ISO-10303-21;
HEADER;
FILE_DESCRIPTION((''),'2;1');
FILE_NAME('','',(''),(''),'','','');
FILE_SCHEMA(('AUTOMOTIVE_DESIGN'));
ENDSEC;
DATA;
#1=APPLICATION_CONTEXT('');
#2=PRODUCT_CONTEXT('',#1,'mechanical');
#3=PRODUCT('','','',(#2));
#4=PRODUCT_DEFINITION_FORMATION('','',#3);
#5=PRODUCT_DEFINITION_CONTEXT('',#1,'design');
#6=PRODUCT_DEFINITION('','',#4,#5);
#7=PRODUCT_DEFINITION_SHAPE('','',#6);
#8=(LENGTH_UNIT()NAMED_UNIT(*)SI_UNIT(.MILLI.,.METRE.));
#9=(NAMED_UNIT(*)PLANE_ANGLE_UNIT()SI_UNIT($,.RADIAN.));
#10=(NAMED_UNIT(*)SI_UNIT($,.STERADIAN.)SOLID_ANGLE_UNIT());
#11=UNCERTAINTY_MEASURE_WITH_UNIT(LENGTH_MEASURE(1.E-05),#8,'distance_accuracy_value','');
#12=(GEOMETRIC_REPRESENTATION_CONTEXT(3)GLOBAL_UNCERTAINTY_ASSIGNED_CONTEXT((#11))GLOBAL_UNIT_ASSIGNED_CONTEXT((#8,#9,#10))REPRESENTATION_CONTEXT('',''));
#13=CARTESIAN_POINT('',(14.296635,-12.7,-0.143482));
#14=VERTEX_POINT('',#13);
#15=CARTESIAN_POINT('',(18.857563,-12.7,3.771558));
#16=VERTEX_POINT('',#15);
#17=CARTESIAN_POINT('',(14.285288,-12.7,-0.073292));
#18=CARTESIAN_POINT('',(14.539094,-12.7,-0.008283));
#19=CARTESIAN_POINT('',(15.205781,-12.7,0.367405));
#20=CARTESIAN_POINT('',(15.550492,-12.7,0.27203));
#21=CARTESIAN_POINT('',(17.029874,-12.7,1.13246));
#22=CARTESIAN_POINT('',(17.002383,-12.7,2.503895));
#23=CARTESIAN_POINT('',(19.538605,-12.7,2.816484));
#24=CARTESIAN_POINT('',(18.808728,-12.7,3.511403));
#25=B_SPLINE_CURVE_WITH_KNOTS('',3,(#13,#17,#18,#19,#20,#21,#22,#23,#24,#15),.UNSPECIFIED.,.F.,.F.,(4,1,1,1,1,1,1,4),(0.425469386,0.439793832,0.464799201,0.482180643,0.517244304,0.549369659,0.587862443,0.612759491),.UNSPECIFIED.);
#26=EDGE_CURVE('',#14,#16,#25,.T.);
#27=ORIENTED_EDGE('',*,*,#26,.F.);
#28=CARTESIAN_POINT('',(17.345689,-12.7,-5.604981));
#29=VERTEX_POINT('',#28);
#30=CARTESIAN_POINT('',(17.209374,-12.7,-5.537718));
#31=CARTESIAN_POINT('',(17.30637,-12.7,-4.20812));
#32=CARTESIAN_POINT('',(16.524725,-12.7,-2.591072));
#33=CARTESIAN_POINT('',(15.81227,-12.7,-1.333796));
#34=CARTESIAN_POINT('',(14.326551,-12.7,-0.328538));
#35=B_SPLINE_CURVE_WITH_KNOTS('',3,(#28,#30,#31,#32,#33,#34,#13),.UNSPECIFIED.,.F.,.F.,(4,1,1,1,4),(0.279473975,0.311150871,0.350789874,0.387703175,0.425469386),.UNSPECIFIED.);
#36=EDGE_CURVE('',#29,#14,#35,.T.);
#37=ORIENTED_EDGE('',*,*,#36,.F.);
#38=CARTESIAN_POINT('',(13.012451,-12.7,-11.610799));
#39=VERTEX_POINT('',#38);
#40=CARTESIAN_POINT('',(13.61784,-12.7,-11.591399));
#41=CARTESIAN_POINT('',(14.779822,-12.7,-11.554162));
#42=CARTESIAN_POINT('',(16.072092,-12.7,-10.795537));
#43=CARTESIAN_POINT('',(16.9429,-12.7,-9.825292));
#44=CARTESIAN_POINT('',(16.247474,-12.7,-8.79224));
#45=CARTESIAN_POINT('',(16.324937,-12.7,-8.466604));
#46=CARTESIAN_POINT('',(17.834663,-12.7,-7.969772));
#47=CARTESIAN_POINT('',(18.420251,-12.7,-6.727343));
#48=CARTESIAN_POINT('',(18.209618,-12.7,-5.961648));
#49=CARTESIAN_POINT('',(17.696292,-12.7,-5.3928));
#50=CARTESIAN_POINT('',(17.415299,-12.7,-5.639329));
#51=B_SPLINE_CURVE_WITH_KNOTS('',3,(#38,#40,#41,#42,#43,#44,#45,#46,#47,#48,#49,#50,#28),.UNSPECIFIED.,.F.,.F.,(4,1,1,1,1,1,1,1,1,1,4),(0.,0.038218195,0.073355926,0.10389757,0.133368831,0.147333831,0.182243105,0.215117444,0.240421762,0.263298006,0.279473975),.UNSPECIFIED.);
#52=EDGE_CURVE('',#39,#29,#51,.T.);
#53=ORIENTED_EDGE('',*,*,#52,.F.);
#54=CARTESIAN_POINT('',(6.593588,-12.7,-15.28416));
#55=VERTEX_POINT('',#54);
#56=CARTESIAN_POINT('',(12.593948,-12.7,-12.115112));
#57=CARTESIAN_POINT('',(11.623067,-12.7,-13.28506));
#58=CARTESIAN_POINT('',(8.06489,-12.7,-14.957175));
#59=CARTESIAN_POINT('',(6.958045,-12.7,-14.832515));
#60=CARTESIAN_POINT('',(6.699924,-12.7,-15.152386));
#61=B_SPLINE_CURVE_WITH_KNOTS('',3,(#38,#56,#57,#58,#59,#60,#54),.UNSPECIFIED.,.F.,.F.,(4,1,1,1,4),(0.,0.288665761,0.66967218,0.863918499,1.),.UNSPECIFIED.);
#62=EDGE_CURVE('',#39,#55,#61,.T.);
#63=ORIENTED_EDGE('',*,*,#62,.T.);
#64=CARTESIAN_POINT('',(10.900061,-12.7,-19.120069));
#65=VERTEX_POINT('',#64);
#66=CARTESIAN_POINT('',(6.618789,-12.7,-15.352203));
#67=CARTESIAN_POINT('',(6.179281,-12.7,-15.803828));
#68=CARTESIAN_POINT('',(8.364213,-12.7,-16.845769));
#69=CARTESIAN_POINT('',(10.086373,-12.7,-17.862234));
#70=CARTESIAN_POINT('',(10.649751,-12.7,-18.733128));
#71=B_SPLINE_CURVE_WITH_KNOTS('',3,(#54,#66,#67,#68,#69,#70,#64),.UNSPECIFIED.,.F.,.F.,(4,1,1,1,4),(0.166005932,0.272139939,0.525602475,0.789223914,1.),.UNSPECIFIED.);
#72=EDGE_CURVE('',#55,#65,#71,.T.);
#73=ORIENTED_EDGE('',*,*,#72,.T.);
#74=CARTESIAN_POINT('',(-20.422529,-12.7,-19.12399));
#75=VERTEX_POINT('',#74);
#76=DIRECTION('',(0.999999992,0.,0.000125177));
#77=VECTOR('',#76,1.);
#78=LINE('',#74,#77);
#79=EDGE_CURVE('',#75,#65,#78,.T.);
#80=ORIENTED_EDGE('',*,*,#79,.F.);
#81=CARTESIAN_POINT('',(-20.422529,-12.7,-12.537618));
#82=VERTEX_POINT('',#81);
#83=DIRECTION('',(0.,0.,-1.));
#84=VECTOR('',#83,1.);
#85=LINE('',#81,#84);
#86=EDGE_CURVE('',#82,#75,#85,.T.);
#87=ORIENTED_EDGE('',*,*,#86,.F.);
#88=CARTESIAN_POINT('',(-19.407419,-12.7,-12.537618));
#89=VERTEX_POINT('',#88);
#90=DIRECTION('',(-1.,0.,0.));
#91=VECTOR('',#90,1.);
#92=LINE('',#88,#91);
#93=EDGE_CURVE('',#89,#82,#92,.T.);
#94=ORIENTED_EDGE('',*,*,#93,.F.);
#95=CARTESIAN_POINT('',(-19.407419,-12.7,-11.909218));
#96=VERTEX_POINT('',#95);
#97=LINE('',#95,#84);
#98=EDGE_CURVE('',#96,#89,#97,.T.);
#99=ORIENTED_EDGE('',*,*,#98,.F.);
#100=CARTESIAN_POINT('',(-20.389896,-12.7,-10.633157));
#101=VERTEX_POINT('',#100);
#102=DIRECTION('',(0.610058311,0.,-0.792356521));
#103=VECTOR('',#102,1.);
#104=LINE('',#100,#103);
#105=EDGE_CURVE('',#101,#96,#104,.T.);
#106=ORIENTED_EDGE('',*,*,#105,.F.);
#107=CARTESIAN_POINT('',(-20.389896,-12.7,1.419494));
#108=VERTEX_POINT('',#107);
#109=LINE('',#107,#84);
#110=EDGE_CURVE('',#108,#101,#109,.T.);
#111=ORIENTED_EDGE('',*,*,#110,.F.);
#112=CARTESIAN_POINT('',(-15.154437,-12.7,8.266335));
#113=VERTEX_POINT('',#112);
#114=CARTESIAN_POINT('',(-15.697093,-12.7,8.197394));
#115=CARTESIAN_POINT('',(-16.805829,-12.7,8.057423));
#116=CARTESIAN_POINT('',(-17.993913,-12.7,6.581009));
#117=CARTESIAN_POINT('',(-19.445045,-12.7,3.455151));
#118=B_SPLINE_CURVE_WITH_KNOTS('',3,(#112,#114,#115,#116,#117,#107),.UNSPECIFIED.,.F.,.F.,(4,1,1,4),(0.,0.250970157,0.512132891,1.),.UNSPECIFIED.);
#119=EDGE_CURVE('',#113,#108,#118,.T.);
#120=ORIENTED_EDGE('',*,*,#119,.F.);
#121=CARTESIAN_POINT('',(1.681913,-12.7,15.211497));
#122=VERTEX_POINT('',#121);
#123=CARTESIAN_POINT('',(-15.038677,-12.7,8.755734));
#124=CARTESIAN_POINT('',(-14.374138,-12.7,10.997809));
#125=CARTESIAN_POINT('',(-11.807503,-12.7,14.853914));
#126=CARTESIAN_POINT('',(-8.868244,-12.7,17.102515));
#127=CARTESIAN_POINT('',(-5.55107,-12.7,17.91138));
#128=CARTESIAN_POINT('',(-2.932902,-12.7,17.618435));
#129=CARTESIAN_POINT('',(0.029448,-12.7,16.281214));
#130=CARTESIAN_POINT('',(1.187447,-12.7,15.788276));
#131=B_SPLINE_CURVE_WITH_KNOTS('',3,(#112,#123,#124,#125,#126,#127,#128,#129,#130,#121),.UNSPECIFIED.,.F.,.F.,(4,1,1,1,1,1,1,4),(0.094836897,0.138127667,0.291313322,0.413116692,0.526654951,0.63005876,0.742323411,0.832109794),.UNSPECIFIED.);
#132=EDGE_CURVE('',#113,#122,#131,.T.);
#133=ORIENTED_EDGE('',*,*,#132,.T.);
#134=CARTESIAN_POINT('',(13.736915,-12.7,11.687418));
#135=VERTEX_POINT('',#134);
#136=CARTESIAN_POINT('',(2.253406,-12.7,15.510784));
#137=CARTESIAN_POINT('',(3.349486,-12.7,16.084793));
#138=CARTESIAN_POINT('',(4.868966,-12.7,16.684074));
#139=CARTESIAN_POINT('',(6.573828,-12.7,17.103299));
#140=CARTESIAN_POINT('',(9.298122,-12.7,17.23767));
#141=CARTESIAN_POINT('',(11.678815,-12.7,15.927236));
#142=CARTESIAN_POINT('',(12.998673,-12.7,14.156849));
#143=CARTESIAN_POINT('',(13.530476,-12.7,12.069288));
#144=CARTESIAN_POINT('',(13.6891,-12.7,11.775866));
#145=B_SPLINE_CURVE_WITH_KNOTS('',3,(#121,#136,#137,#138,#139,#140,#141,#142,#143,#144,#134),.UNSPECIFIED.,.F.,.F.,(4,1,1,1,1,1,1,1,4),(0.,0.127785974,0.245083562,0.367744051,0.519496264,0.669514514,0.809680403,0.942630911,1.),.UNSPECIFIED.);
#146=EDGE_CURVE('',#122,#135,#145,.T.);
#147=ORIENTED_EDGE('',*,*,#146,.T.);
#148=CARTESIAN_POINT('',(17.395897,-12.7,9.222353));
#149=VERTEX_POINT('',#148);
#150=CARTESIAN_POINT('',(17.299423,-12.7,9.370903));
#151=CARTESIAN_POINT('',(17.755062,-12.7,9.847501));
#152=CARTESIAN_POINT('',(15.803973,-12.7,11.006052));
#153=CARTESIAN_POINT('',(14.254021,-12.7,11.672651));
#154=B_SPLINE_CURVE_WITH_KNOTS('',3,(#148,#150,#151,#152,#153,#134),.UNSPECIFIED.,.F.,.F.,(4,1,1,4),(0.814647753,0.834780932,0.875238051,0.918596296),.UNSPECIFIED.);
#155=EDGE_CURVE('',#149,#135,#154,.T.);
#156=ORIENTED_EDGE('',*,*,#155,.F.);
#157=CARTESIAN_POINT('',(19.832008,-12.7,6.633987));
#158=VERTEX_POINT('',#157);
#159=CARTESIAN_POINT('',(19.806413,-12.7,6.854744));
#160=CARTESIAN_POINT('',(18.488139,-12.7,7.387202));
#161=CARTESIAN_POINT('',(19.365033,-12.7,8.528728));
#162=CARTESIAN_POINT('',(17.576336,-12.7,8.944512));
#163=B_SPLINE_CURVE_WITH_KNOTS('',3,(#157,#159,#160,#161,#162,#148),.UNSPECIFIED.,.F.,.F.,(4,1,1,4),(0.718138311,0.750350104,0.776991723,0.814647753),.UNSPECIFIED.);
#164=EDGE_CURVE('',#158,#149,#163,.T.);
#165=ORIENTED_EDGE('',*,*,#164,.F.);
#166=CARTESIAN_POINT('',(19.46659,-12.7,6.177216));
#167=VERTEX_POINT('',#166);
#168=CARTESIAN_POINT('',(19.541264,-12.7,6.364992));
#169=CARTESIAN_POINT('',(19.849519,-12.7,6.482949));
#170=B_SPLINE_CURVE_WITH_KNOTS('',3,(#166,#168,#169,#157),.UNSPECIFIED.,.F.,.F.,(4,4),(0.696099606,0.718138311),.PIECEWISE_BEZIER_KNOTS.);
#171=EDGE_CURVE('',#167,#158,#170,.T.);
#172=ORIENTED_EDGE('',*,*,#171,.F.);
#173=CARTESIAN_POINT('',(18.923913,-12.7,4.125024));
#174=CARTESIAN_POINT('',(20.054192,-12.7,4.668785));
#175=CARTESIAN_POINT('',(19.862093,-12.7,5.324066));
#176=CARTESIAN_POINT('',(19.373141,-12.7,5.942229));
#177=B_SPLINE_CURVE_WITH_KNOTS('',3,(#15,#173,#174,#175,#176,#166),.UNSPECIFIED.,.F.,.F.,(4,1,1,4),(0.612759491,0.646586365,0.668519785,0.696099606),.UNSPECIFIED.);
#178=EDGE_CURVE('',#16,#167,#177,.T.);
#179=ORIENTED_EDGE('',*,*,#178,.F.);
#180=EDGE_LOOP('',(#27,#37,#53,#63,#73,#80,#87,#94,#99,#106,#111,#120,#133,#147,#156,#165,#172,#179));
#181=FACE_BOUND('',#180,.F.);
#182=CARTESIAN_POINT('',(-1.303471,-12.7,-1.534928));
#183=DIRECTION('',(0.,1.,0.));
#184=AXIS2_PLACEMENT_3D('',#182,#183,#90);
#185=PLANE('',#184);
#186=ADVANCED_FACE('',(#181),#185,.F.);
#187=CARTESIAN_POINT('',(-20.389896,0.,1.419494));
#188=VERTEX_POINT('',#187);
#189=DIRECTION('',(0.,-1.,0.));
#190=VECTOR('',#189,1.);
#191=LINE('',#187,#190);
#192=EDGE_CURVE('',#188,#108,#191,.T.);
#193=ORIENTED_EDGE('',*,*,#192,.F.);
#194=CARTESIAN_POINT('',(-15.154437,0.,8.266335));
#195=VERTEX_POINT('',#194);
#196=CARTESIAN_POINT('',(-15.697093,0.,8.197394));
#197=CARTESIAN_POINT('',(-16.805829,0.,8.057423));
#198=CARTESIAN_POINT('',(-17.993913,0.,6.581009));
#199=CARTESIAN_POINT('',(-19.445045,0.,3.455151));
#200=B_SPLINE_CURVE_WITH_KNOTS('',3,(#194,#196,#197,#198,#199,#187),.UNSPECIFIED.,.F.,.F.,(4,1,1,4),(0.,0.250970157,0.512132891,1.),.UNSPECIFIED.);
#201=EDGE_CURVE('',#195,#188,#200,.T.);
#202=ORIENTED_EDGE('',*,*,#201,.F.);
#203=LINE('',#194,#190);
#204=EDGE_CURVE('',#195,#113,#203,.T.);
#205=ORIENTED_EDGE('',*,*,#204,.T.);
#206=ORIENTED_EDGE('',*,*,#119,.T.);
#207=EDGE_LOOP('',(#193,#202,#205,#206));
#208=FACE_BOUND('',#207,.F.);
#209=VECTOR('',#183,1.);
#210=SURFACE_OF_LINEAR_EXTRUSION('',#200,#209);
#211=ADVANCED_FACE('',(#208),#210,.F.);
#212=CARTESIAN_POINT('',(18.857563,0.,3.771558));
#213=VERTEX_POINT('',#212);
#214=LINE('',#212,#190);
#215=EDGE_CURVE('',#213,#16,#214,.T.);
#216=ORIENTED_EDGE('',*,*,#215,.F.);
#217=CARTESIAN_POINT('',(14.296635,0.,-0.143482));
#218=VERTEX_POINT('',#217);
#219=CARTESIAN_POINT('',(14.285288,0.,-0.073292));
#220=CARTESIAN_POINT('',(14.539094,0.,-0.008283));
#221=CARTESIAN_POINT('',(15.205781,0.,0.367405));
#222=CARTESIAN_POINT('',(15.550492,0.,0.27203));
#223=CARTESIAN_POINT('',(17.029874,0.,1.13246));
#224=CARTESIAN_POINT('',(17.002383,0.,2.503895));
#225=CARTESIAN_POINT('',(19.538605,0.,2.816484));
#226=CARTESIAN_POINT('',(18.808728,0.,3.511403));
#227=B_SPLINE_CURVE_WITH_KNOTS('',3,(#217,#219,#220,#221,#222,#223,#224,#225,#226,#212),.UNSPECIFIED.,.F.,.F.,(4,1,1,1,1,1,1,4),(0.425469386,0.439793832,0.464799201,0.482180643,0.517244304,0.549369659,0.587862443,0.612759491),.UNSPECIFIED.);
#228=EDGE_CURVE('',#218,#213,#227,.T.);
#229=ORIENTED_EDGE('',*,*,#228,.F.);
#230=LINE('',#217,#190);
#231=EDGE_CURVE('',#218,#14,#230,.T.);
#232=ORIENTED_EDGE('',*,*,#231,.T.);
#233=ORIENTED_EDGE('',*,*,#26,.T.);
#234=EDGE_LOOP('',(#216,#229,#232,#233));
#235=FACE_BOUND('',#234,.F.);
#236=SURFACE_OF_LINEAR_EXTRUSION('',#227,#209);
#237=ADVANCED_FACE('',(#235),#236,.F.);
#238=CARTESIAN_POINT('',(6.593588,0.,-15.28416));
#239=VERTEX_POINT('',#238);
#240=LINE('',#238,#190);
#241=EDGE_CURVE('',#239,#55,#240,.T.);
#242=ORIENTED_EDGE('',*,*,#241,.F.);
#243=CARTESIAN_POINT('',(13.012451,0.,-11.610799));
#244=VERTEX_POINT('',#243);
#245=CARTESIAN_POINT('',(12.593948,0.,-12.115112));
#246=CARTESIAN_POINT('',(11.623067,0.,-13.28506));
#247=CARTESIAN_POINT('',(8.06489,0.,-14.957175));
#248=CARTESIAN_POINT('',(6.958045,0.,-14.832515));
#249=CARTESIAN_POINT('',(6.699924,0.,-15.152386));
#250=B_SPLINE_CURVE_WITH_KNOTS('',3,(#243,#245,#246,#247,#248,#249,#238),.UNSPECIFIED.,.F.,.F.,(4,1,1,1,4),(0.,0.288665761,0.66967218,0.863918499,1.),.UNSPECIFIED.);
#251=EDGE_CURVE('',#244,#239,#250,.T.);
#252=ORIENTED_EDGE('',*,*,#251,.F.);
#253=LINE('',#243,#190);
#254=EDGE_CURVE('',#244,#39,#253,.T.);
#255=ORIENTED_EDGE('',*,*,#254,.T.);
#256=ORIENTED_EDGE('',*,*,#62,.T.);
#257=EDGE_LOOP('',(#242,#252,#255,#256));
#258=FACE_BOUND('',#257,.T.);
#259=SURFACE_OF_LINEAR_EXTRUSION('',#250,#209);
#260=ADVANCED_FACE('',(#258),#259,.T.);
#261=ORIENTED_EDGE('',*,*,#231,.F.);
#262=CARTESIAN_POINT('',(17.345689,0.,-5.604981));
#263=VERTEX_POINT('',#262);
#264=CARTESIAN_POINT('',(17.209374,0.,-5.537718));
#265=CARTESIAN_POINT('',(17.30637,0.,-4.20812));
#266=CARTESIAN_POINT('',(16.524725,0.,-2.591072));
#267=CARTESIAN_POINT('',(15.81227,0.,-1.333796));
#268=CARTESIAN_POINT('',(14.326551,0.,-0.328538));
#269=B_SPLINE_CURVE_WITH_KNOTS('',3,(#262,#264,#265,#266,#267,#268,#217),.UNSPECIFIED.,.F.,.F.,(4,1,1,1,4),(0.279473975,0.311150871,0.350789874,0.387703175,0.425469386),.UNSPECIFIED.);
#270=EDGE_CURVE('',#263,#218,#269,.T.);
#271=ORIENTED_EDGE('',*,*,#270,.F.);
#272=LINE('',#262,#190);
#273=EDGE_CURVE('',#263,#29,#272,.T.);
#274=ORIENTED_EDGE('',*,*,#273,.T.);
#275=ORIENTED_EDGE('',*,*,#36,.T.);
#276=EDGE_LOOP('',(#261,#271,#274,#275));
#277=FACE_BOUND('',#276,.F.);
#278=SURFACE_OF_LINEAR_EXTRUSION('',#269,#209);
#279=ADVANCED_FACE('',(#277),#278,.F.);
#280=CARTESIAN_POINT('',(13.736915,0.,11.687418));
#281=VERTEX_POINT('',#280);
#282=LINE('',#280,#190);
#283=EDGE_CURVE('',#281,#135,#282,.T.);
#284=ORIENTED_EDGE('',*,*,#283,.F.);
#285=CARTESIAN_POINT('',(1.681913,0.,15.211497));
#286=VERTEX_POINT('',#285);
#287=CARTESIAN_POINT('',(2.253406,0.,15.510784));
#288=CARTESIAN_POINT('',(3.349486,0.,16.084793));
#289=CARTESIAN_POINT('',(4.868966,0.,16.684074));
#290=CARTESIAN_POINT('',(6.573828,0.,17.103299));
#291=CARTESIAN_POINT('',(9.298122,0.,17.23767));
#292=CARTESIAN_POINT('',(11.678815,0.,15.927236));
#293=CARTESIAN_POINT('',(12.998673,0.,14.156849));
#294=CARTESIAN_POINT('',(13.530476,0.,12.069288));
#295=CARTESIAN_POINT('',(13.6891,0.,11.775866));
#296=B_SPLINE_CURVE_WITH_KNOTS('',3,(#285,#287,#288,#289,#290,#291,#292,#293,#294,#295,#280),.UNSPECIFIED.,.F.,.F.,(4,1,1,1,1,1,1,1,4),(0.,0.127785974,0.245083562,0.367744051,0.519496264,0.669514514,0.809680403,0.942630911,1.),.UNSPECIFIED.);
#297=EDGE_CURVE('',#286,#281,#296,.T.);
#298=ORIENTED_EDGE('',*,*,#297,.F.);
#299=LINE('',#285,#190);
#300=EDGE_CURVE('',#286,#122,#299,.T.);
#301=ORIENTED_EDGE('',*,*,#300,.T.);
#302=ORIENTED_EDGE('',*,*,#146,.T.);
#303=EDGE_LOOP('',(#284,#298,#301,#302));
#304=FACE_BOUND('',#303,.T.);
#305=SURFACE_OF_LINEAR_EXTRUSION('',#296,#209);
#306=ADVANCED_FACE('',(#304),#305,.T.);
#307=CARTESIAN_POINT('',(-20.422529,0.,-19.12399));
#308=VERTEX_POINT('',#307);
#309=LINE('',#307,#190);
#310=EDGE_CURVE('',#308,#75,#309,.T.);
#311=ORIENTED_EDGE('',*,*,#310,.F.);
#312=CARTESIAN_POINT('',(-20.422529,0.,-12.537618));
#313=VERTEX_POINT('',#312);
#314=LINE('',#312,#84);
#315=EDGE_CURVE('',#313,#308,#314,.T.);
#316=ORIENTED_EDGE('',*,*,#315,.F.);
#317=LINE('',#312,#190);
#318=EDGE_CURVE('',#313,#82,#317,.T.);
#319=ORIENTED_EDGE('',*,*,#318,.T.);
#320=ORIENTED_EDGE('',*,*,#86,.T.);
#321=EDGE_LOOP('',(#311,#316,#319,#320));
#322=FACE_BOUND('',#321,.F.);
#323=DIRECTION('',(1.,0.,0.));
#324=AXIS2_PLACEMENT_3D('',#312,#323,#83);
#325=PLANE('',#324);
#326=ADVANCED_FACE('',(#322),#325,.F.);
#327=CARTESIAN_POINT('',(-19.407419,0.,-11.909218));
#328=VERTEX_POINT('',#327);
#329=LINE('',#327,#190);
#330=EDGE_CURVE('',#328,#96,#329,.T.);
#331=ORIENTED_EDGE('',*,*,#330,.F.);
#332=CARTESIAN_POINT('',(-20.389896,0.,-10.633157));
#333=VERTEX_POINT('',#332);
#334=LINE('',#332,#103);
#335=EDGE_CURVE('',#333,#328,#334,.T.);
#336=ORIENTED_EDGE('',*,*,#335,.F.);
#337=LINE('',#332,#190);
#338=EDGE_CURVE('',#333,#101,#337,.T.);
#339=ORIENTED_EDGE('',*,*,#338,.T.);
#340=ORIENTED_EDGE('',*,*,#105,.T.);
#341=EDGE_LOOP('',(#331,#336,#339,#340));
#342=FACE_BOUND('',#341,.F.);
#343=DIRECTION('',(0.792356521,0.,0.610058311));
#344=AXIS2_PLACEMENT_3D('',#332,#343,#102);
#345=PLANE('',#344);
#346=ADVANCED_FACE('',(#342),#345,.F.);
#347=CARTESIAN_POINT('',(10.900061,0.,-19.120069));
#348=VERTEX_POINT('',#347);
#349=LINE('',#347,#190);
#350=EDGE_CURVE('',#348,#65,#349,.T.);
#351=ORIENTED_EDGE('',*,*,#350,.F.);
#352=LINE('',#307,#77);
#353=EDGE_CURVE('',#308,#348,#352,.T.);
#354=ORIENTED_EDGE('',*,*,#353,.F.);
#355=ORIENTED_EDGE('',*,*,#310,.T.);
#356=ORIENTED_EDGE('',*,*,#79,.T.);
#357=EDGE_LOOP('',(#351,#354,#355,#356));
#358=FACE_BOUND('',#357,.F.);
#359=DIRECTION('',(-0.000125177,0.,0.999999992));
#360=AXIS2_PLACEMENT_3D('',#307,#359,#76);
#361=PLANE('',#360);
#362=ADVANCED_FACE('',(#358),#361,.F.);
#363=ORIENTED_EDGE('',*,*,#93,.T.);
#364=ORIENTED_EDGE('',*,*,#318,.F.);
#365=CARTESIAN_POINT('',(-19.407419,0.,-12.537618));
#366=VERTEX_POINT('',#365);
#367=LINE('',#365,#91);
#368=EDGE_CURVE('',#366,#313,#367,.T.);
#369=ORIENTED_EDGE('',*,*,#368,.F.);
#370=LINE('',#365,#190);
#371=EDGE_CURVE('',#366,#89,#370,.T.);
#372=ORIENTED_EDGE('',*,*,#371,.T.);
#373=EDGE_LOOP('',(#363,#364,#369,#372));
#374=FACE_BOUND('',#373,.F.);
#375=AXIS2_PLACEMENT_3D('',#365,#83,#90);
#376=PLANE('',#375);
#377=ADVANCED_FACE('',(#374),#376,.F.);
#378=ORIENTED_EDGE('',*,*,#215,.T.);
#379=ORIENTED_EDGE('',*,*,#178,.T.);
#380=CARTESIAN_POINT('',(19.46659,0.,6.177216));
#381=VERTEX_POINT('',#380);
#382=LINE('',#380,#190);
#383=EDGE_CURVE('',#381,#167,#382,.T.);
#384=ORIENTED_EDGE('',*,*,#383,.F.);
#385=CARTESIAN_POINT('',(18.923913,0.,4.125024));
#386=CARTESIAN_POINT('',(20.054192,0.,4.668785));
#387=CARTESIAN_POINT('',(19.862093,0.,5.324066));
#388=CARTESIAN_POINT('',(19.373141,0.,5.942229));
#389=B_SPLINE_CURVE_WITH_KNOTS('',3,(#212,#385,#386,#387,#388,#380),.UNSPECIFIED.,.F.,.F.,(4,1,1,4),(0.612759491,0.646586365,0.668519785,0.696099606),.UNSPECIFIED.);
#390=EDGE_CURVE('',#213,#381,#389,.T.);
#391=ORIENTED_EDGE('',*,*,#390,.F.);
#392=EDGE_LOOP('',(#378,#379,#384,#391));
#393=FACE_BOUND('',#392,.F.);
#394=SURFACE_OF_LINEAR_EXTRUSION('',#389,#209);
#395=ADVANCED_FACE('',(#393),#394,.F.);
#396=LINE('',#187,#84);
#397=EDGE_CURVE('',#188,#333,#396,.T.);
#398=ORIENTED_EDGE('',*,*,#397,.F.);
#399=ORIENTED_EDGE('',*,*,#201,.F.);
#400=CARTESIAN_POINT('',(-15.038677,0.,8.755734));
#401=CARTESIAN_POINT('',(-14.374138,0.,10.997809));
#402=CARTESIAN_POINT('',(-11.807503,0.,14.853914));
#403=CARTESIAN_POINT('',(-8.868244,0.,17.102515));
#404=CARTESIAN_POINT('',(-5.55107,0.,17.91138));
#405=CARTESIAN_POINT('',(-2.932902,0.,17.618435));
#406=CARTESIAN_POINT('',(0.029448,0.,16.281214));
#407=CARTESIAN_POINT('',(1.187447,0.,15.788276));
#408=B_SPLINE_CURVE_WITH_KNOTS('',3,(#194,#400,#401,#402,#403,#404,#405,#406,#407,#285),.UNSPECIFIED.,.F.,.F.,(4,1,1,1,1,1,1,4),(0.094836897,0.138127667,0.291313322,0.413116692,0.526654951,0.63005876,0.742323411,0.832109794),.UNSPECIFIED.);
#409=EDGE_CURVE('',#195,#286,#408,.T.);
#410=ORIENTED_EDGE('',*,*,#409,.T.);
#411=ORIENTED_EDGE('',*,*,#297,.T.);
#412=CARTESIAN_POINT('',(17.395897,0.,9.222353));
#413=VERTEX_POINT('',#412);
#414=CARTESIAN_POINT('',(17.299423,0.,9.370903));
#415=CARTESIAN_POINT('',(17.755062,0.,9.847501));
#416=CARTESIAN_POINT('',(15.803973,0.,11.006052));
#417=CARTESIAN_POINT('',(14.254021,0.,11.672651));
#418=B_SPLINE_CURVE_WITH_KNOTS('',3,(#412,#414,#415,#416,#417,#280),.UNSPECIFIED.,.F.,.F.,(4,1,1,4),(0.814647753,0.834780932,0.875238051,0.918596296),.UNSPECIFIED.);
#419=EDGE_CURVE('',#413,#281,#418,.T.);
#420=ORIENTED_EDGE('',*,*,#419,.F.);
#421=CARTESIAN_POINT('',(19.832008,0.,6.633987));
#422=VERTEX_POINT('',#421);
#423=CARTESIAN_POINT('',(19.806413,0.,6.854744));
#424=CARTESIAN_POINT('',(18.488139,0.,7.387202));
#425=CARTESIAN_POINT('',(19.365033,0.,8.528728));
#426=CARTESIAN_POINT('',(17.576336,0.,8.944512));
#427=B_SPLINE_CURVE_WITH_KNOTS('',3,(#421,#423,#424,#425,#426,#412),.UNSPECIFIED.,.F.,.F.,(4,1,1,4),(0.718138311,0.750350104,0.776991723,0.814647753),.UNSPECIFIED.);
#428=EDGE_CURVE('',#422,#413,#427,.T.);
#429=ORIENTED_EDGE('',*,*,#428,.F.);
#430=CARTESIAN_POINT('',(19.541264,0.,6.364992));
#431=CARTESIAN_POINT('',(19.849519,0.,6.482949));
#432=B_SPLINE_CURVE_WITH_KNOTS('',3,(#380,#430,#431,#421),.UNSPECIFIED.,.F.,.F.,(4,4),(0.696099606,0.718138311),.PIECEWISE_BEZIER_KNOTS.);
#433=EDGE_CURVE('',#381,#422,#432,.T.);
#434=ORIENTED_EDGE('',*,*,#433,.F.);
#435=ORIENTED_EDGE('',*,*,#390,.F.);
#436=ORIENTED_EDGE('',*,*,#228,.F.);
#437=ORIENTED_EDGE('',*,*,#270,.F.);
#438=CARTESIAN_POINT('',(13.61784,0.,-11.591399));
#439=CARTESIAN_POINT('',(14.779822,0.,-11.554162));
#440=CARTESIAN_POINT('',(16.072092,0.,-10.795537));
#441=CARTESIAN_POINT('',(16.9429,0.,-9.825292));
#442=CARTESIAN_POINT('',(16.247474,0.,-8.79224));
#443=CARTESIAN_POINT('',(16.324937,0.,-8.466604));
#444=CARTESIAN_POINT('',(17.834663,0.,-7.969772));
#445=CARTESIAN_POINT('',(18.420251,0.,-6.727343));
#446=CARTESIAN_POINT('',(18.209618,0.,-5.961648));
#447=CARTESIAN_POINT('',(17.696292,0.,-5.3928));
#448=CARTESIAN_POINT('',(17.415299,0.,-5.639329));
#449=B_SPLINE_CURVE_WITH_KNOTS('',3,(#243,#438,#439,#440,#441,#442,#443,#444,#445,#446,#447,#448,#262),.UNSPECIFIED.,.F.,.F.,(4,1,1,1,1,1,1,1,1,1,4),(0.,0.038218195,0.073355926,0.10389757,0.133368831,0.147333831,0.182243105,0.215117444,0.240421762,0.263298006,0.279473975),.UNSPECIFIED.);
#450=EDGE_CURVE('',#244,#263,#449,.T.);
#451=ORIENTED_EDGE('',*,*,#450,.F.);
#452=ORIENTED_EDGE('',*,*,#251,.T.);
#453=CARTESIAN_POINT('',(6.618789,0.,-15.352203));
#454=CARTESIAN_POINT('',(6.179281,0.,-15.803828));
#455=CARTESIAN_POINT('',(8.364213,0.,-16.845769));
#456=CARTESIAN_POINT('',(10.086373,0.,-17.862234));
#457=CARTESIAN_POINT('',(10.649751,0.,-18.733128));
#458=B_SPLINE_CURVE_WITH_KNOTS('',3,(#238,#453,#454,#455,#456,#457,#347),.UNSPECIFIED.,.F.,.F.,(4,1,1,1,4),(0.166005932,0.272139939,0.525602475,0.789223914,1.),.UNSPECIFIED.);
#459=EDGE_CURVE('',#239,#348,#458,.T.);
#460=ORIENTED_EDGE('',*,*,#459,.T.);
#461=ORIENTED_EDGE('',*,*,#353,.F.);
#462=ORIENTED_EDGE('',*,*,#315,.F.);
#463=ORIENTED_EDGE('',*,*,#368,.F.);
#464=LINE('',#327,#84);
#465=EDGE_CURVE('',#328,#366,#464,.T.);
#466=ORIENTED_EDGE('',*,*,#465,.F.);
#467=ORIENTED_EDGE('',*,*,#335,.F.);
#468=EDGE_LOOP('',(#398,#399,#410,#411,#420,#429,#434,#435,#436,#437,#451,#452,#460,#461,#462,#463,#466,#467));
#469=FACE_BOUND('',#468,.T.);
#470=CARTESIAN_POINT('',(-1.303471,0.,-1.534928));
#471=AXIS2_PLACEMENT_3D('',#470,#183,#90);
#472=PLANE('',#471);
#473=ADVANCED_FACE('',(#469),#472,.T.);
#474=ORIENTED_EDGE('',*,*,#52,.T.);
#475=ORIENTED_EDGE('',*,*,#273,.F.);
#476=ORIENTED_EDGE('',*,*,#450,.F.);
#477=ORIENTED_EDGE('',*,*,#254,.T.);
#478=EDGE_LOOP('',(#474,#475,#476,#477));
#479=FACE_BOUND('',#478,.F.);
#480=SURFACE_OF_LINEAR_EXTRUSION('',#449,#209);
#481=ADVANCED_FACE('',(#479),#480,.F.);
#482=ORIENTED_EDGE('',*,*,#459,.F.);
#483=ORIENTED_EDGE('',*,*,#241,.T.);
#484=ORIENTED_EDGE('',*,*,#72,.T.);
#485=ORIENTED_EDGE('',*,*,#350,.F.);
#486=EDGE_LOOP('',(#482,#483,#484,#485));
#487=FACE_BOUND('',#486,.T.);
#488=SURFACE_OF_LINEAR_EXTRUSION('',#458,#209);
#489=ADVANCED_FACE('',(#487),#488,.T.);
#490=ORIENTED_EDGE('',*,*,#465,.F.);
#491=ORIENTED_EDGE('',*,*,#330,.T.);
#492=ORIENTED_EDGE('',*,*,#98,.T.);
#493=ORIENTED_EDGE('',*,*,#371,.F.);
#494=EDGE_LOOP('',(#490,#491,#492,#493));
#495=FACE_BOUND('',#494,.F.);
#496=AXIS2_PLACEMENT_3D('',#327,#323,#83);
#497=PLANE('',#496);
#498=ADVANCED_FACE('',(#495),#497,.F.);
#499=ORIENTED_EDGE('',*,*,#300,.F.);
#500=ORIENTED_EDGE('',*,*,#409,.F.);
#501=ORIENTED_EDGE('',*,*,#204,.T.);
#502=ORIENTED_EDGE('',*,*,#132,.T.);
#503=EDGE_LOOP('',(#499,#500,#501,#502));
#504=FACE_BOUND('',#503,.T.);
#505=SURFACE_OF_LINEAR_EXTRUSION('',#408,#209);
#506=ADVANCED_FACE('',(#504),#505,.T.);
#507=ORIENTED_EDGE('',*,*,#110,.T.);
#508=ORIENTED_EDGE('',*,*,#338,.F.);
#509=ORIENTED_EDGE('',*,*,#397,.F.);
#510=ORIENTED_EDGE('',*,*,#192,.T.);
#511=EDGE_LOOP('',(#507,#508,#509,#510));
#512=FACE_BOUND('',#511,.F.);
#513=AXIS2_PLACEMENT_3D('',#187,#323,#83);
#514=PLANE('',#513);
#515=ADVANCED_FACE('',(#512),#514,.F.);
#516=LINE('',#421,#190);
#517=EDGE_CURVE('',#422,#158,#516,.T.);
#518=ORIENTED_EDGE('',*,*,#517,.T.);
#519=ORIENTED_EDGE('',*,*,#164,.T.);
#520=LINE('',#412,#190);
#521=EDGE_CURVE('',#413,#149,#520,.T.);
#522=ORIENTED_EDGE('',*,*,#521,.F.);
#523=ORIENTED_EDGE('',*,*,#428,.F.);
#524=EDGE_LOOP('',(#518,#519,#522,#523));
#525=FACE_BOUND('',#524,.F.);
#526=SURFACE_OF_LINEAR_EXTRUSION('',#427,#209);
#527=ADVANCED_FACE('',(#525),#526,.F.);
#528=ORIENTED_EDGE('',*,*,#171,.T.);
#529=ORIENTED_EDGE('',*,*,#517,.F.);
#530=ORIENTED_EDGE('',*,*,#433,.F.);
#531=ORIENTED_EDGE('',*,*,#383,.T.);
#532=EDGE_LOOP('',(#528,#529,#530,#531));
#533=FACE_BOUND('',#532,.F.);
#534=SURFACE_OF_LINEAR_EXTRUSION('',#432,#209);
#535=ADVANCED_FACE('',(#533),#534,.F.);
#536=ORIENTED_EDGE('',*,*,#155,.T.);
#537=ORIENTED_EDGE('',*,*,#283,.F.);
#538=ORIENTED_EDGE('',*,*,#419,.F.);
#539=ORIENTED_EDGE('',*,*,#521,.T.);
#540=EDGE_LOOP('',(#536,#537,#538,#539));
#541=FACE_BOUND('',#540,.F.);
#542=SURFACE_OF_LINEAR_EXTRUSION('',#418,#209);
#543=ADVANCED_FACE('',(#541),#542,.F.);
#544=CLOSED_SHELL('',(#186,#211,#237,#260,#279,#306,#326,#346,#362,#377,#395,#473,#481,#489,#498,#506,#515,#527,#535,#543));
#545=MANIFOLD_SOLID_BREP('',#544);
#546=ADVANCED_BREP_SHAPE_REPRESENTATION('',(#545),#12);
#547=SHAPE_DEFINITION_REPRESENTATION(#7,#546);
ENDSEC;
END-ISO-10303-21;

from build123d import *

# Parameters (mm, degrees)
F1_DEPTH = 12.7


with BuildPart() as f1:
    # F0 (on Front) → F1 (new body)
    with BuildSketch(Plane.XZ):
        with BuildLine():
            add(Edge.make_bspline(
                [(-15.154437306, 8.266335297), (-15.0386769934, 8.7557337939), (-14.3741383819, 10.9978091678), (-11.8075027584, 14.8539144241), (-8.8682439542, 17.1025149238), (-5.5510699204, 17.9113797341), (-2.9329017816, 17.6184345826), (0.029448146, 16.2812136827), (1.1874474387, 15.7882755265), (1.681912574, 15.2114974335)],
                knots=[0.0948368965, 0.0948368965, 0.0948368965, 0.0948368965, 0.1381276669, 0.2913133216, 0.4131166921, 0.5266549515, 0.6300587596, 0.7423234113, 0.8321097944, 0.8321097944, 0.8321097944, 0.8321097944], degree=3))
            add(Edge.make_bspline(
                [(-15.154437306, 8.266335297), (-15.6970933244, 8.1973941045), (-16.8058294964, 8.0574230249), (-17.9939130366, 6.5810091616), (-19.4450451522, 3.4551507862), (-20.3898958862, 1.4194942778)],
                knots=[0, 0, 0, 0, 0.250970157, 0.5121328909, 1, 1, 1, 1], degree=3))
            Line((-20.3898958862, 1.4194942778), (-20.3898958862, -10.6331566349))
            Line((-20.3898958862, -10.6331566349), (-19.4074194878, -11.9092175737))
            add(Edge.make_bspline(
                [(-19.4074194878, -11.9092175737), (-18.5180737994, -12.4183908814), (-16.581459682, -13.5271523324), (-12.3451670543, -14.8422736814), (-5.009688178, -15.6796818442), (1.7860413854, -15.8777963562), (4.5406408215, -15.4618435648), (5.7173287496, -15.2841601521)],
                knots=[0, 0, 0, 0, 0.1583864727, 0.3448979212, 0.590608127, 0.8251192284, 1, 1, 1, 1], degree=3))
            add(Edge.make_bspline(
                [(5.7173287496, -15.2841601521), (5.8609689506, -15.2658925201), (6.0046091517, -15.2476248882), (6.1329162172, -15.2358156923)],
                knots=[0, 0, 0, 0, 0.0569882776, 0.0569882776, 0.0569882776, 0.0569882776], degree=3))
            add(Edge.make_bspline(
                [(6.1329162172, -15.2358156923), (6.3783655594, -15.2132248913), (6.5677031823, -15.2142687829), (6.593588274, -15.2841601521)],
                knots=[0.0569882776, 0.0569882776, 0.0569882776, 0.0569882776, 0.1660059315, 0.1660059315, 0.1660059315, 0.1660059315], degree=3))
            add(Edge.make_bspline(
                [(13.0124511197, -11.6107994691), (12.5939476472, -12.1151119974), (11.6230665427, -13.2850604846), (8.0648895517, -14.9571747505), (6.9580454759, -14.8325148516), (6.6999238056, -15.1523862623), (6.593588274, -15.2841601521)],
                knots=[0, 0, 0, 0, 0.288665761, 0.6696721803, 0.863918499, 1, 1, 1, 1], degree=3))
            add(Edge.make_bspline(
                [(17.3456892371, -5.6049809791), (16.7894235563, -5.8159730563), (15.5297664705, -6.2937621314), (12.6939593803, -7.3387226453), (9.5153698979, -7.5177566902), (6.8313239775, -7.3878665753), (-0.0764413013, -6.4191861087), (-4.2569807618, -5.4711619397), (-7.1031631337, -5.5883503751), (-8.6113560055, -5.7114062767), (-9.6992037188, -7.0974632625), (-10.1008982052, -8.2753221902), (-9.7951087777, -9.1999689012), (-8.8178808563, -10.0607275543), (-5.1552975142, -9.5027954786), (0.0958312582, -10.9234706923), (4.9916901863, -11.4326531973), (10.1309060151, -11.5467984944), (13.0124511197, -11.6107994691)],
                knots=[0, 0, 0, 0, 0.049671967, 0.1124815846, 0.1755999807, 0.2355156609, 0.3303542289, 0.407198297, 0.4661951976, 0.5089927858, 0.5551744044, 0.5948848593, 0.6285124105, 0.6657059392, 0.7329100796, 0.8172164163, 0.8975137145, 1, 1, 1, 1], degree=3))
            add(Edge.make_bspline(
                [(17.3456892371, -5.6049809791), (17.2093743725, -5.5377179746), (17.3063700602, -4.2081202189), (16.5247246741, -2.5910716918), (15.8122696589, -1.333796201), (14.3265511753, -0.3285375648), (14.2966350541, -0.1434823062)],
                knots=[0.2794739754, 0.2794739754, 0.2794739754, 0.2794739754, 0.3111508711, 0.3507898736, 0.3877031749, 0.4254693863, 0.4254693863, 0.4254693863, 0.4254693863], degree=3))
            add(Edge.make_bspline(
                [(14.2966350541, -0.1434823062), (14.28528809, -0.0732922116), (14.5390943831, -0.0082832717), (15.2057805922, 0.3674052609), (15.5504917984, 0.2720297382), (17.0298739485, 1.1324602338), (17.0023826914, 2.5038946686), (19.5386052141, 2.8164835894), (18.8087282257, 3.5114027514), (18.8575629145, 3.771558404)],
                knots=[0.4254693863, 0.4254693863, 0.4254693863, 0.4254693863, 0.4397938316, 0.4647992014, 0.4821806427, 0.5172443036, 0.5493696586, 0.5878624432, 0.6127594912, 0.6127594912, 0.6127594912, 0.6127594912], degree=3))
            add(Edge.make_bspline(
                [(6.526443176, 3.4349041525), (6.7192580038, 3.2869289286), (7.4139094803, 2.8639984225), (10.6532981542, 2.6478504245), (12.6043444481, 2.5154552823), (16.2310966256, 3.0020580182), (18.0173440963, 3.5253916409), (18.8575629145, 3.771558404)],
                knots=[0.0806534582, 0.0806534582, 0.0806534582, 0.0806534582, 0.196695384, 0.4063898377, 0.5802846438, 0.8025734137, 1, 1, 1, 1], degree=3))
            add(Edge.make_bspline(
                [(6.1772041954, 3.7408485077), (6.2848169441, 3.6393004747), (6.3924296928, 3.5377524418), (6.526443176, 3.4349041525)],
                knots=[0, 0, 0, 0, 0.0806534582, 0.0806534582, 0.0806534582, 0.0806534582], degree=3))
            add(Edge.make_bspline(
                [(5.7160095312, 7.9729855061), (5.0976693943, 8.2343174608), (3.7832262547, 8.7898466502), (1.1324645762, 9.0915716453), (-1.2590290764, 9.1863055842), (-3.8046943656, 8.0101043248), (-5.4662193187, 6.9958814732), (-7.3273259826, 6.1196327492), (-9.8163628138, 6.4981602022), (-10.1164278599, 5.5847431918), (-9.7430054798, 4.8978145547), (-8.7088858545, 5.1226858385), (-7.5608226582, 5.0596859794), (-6.4051488336, 3.9290459905), (-3.9867909343, 2.9861774035), (-2.2442746112, 2.135312525), (1.5307170459, 2.1064600064), (5.2711146458, 2.843862781), (6.1772041954, 3.7408485077)],
                knots=[0, 0, 0, 0, 0.0417728545, 0.0887990909, 0.133853577, 0.1816191509, 0.2221508879, 0.264090264, 0.3076439294, 0.3313226722, 0.3539557012, 0.3822014935, 0.4125147818, 0.448777936, 0.4950531519, 0.5350637901, 0.5917596244, 0.6555244473, 0.6555244473, 0.6555244473, 0.6555244473], degree=3))
            add(Edge.make_bspline(
                [(5.7160095312, 7.9729855061), (5.8226634167, 8.133455294), (5.9293173023, 8.293925082), (5.9873005375, 8.4341801703)],
                knots=[0, 0, 0, 0, 0.2132206179, 0.2132206179, 0.2132206179, 0.2132206179], degree=3))
            add(Edge.make_bspline(
                [(5.9873005375, 8.4341801703), (6.0362142973, 8.552497192), (6.0703656619, 8.8010891941), (5.5060942003, 9.3564826015), (5.0586828442, 9.7407121368)],
                knots=[0.2132206179, 0.2132206179, 0.2132206179, 0.2132206179, 0.393090231, 0.6434475586, 0.6434475586, 0.6434475586, 0.6434475586], degree=3))
            add(Edge.make_bspline(
                [(5.0586828442, 9.7407121368), (4.4214911434, 10.2879219198), (3.5428317334, 10.9589281712), (2.6641723234, 11.6299344227)],
                knots=[0.6434475586, 0.6434475586, 0.6434475586, 0.6434475586, 1, 1, 1, 1], degree=3))
            add(Edge.make_bspline(
                [(3.0040566344, 11.7049422115), (2.8865220696, 11.6584858594), (2.7689875048, 11.6120295074), (2.6641723234, 11.6299344227)],
                knots=[0, 0, 0, 0, 0.0600694759, 0.0600694759, 0.0600694759, 0.0600694759], degree=3))
            add(Edge.make_bspline(
                [(1.681912574, 15.2114974335), (2.2822756765, 14.5111926787), (3.1611878768, 12.6205136788), (3.0448523628, 11.9426505396), (3.0040566344, 11.7049422115)],
                knots=[0.8321097944, 0.8321097944, 0.8321097944, 0.8321097944, 0.9411254312, 1, 1, 1, 1], degree=3))
        make_face()
        with BuildLine():
            add(Edge.make_bspline(
                [(1.681912574, 15.2114974335), (2.2534059294, 15.5107841583), (3.3494857467, 16.0847928245), (4.8689656121, 16.6840744149), (6.5738284086, 17.1032992013), (9.2981220799, 17.2376703937), (11.6788150449, 15.9272363839), (12.9986733768, 14.15684852), (13.5304758298, 12.0692875636), (13.6890999092, 11.7758661013), (13.7369148433, 11.6874184459)],
                knots=[0, 0, 0, 0, 0.1277859741, 0.2450835618, 0.3677440513, 0.5194962645, 0.6695145135, 0.8096804032, 0.9426309106, 1, 1, 1, 1], degree=3))
            add(Edge.make_bspline(
                [(1.681912574, 15.2114974335), (2.2822756765, 14.5111926787), (3.1611878768, 12.6205136788), (3.0448523628, 11.9426505396), (3.0040566344, 11.7049422115)],
                knots=[0.8321097944, 0.8321097944, 0.8321097944, 0.8321097944, 0.9411254312, 1, 1, 1, 1], degree=3))
            add(Edge.make_bspline(
                [(3.0040566344, 11.7049422115), (3.825450629, 11.7796086695), (5.4822789239, 11.9302178792), (8.0414223037, 12.2516280122), (10.0610547761, 11.9381978313), (11.121368967, 11.7736458778)],
                knots=[0, 0, 0, 0, 0.3183430957, 0.6421277144, 1, 1, 1, 1], degree=3))
            add(Edge.make_bspline(
                [(13.7369148433, 11.6874184459), (13.4439442962, 11.6957851322), (13.0176107364, 11.48941269), (12.1511241129, 12.0723044073), (11.4728343183, 11.875580911), (11.121368967, 11.7736458778)],
                knots=[0.918596296, 0.918596296, 0.918596296, 0.918596296, 0.9431612313, 0.9705481964, 1, 1, 1, 1], degree=3))
        make_face()
        with BuildLine():
            add(Edge.make_bspline(
                [(3.0040566344, 11.7049422115), (3.825450629, 11.7796086695), (5.4822789239, 11.9302178792), (8.0414223037, 12.2516280122), (10.0610547761, 11.9381978313), (11.121368967, 11.7736458778)],
                knots=[0, 0, 0, 0, 0.3183430957, 0.6421277144, 1, 1, 1, 1], degree=3))
            add(Edge.make_bspline(
                [(3.0040566344, 11.7049422115), (2.8865220696, 11.6584858594), (2.7689875048, 11.6120295074), (2.6641723234, 11.6299344227)],
                knots=[0, 0, 0, 0, 0.0600694759, 0.0600694759, 0.0600694759, 0.0600694759], degree=3))
            add(Edge.make_bspline(
                [(5.0586828442, 9.7407121368), (4.4214911434, 10.2879219198), (3.5428317334, 10.9589281712), (2.6641723234, 11.6299344227)],
                knots=[0.6434475586, 0.6434475586, 0.6434475586, 0.6434475586, 1, 1, 1, 1], degree=3))
            add(Edge.make_bspline(
                [(5.9873005375, 8.4341801703), (6.0362142973, 8.552497192), (6.0703656619, 8.8010891941), (5.5060942003, 9.3564826015), (5.0586828442, 9.7407121368)],
                knots=[0.2132206179, 0.2132206179, 0.2132206179, 0.2132206179, 0.393090231, 0.6434475586, 0.6434475586, 0.6434475586, 0.6434475586], degree=3))
            add(Edge.make_bspline(
                [(5.9873005375, 8.4341801703), (7.2870663159, 8.8664574837), (9.8142199234, 9.7069405846), (13.4522244996, 9.9528294243), (16.0577204257, 9.4702199414), (17.3958968371, 9.2223528773)],
                knots=[0, 0, 0, 0, 0.3399710799, 0.6610107416, 1, 1, 1, 1], degree=3))
            add(Edge.make_bspline(
                [(17.3958968371, 9.2223528773), (17.2994233335, 9.3709031736), (17.755061546, 9.8475006389), (15.8039725214, 11.0060517119), (14.2540213824, 11.6726508584), (13.7369148433, 11.6874184459)],
                knots=[0.8146477527, 0.8146477527, 0.8146477527, 0.8146477527, 0.8347809324, 0.8752380512, 0.918596296, 0.918596296, 0.918596296, 0.918596296], degree=3))
            add(Edge.make_bspline(
                [(13.7369148433, 11.6874184459), (13.4439442962, 11.6957851322), (13.0176107364, 11.48941269), (12.1511241129, 12.0723044073), (11.4728343183, 11.875580911), (11.121368967, 11.7736458778)],
                knots=[0.918596296, 0.918596296, 0.918596296, 0.918596296, 0.9431612313, 0.9705481964, 1, 1, 1, 1], degree=3))
        make_face()
        with BuildLine():
            add(Edge.make_bspline(
                [(19.832007587, 6.633986719), (19.8064132047, 6.8547435664), (18.4881390523, 7.3872021621), (19.3650330523, 8.5287284815), (17.5763357516, 8.944512297), (17.3958968371, 9.2223528773)],
                knots=[0.7181383109, 0.7181383109, 0.7181383109, 0.7181383109, 0.7503501039, 0.7769917232, 0.8146477527, 0.8146477527, 0.8146477527, 0.8146477527], degree=3))
            add(Edge.make_bspline(
                [(5.9873005375, 8.4341801703), (7.2870663159, 8.8664574837), (9.8142199234, 9.7069405846), (13.4522244996, 9.9528294243), (16.0577204257, 9.4702199414), (17.3958968371, 9.2223528773)],
                knots=[0, 0, 0, 0, 0.3399710799, 0.6610107416, 1, 1, 1, 1], degree=3))
            add(Edge.make_bspline(
                [(5.7160095312, 7.9729855061), (5.8226634167, 8.133455294), (5.9293173023, 8.293925082), (5.9873005375, 8.4341801703)],
                knots=[0, 0, 0, 0, 0.2132206179, 0.2132206179, 0.2132206179, 0.2132206179], degree=3))
            add(Edge.make_bspline(
                [(5.7160095312, 7.9729855061), (5.0976693943, 8.2343174608), (3.7832262547, 8.7898466502), (1.1324645762, 9.0915716453), (-1.2590290764, 9.1863055842), (-3.8046943656, 8.0101043248), (-5.4662193187, 6.9958814732), (-7.3273259826, 6.1196327492), (-9.8163628138, 6.4981602022), (-10.1164278599, 5.5847431918), (-9.7430054798, 4.8978145547), (-8.7088858545, 5.1226858385), (-7.5608226582, 5.0596859794), (-6.4051488336, 3.9290459905), (-3.9867909343, 2.9861774035), (-2.2442746112, 2.135312525), (1.5307170459, 2.1064600064), (5.2711146458, 2.843862781), (6.1772041954, 3.7408485077)],
                knots=[0, 0, 0, 0, 0.0417728545, 0.0887990909, 0.133853577, 0.1816191509, 0.2221508879, 0.264090264, 0.3076439294, 0.3313226722, 0.3539557012, 0.3822014935, 0.4125147818, 0.448777936, 0.4950531519, 0.5350637901, 0.5917596244, 0.6555244473, 0.6555244473, 0.6555244473, 0.6555244473], degree=3))
            add(Edge.make_bspline(
                [(6.1772041954, 3.7408485077), (6.7804296893, 4.3380131679), (6.9077022432, 5.1597331413), (6.8554310128, 5.7755294256)],
                knots=[0.6555244473, 0.6555244473, 0.6555244473, 0.6555244473, 0.6979756231, 0.6979756231, 0.6979756231, 0.6979756231], degree=3))
            add(Edge.make_bspline(
                [(6.8554310128, 5.7755294256), (7.4127268279, 6.1772309108), (8.5365975009, 6.9873222596), (10.8359007914, 7.4085355769), (12.0886982355, 8.2798741832), (17.0602348476, 7.6598327031), (17.2749481279, 6.4618591472), (18.1640129309, 6.7709903663), (18.9818248171, 6.3981944314), (19.4665901363, 6.1772163026)],
                knots=[0, 0, 0, 0, 0.1554835998, 0.3135560204, 0.4527660347, 0.6833732817, 0.7808534577, 0.8700989246, 1, 1, 1, 1], degree=3))
            add(Edge.make_bspline(
                [(19.4665901363, 6.1772163026), (19.5412639356, 6.3649920847), (19.8495187837, 6.4829490199), (19.832007587, 6.633986719)],
                knots=[0.6960996056, 0.6960996056, 0.6960996056, 0.6960996056, 0.7181383109, 0.7181383109, 0.7181383109, 0.7181383109], degree=3))
        make_face()
        with BuildLine():
            add(Edge.make_bspline(
                [(-19.4074194878, -11.9092175737), (-18.5180737994, -12.4183908814), (-16.581459682, -13.5271523324), (-12.3451670543, -14.8422736814), (-5.009688178, -15.6796818442), (1.7860413854, -15.8777963562), (4.5406408215, -15.4618435648), (5.7173287496, -15.2841601521)],
                knots=[0, 0, 0, 0, 0.1583864727, 0.3448979212, 0.590608127, 0.8251192284, 1, 1, 1, 1], degree=3))
            Line((-19.4074194878, -11.9092175737), (-19.4074194878, -12.5376181677))
            add(Edge.make_bspline(
                [(-19.4074194878, -12.5376181677), (-19.0472552288, -12.845749507), (-18.2284150574, -13.5462918632), (-16.1095042703, -14.7285973698), (-13.1361108144, -15.5154421589), (-10.9251402345, -16.5738087853), (-5.9100838248, -16.7490847664), (-0.1724251453, -17.2908414684), (3.8058081405, -16.8613123017), (5.5898965016, -16.165531621), (5.97033494, -15.5151162124), (6.1329162172, -15.2358156923)],
                knots=[0, 0, 0, 0, 0.0812834053, 0.1847993406, 0.3004630597, 0.4035112423, 0.5505877757, 0.714091053, 0.8463018481, 0.9338504569, 0.9996178421, 0.9996178421, 0.9996178421, 0.9996178421], degree=3))
            add(Edge.make_bspline(
                [(5.7173287496, -15.2841601521), (5.8609689506, -15.2658925201), (6.0046091517, -15.2476248882), (6.1329162172, -15.2358156923)],
                knots=[0, 0, 0, 0, 0.0569882776, 0.0569882776, 0.0569882776, 0.0569882776], degree=3))
        make_face()
        with BuildLine():
            add(Edge.make_bspline(
                [(-19.4074194878, -12.5376181677), (-19.0472552288, -12.845749507), (-18.2284150574, -13.5462918632), (-16.1095042703, -14.7285973698), (-13.1361108144, -15.5154421589), (-10.9251402345, -16.5738087853), (-5.9100838248, -16.7490847664), (-0.1724251453, -17.2908414684), (3.8058081405, -16.8613123017), (5.5898965016, -16.165531621), (5.97033494, -15.5151162124), (6.1329162172, -15.2358156923)],
                knots=[0, 0, 0, 0, 0.0812834053, 0.1847993406, 0.3004630597, 0.4035112423, 0.5505877757, 0.714091053, 0.8463018481, 0.9338504569, 0.9996178421, 0.9996178421, 0.9996178421, 0.9996178421], degree=3))
            Line((-19.4074194878, -12.5376181677), (-20.4225294292, -12.5376181677))
            Line((-20.4225294292, -12.5376181677), (-20.4225294292, -19.1239900887))
            Line((-20.4225294292, -19.1239900887), (10.9000606462, -19.1200692207))
            add(Edge.make_bspline(
                [(6.593588274, -15.2841601521), (6.6187886743, -15.3522028118), (6.1792813673, -15.8038282843), (8.3642125184, -16.8457691242), (10.0863730581, -17.8622340283), (10.6497505316, -18.7331284883), (10.9000606462, -19.1200692207)],
                knots=[0.1660059315, 0.1660059315, 0.1660059315, 0.1660059315, 0.2721399394, 0.5256024751, 0.7892239139, 1, 1, 1, 1], degree=3))
            add(Edge.make_bspline(
                [(6.1329162172, -15.2358156923), (6.3783655594, -15.2132248913), (6.5677031823, -15.2142687829), (6.593588274, -15.2841601521)],
                knots=[0.0569882776, 0.0569882776, 0.0569882776, 0.0569882776, 0.1660059315, 0.1660059315, 0.1660059315, 0.1660059315], degree=3))
        make_face()
        with BuildLine():
            add(Edge.make_bspline(
                [(18.8575629145, 3.771558404), (18.9239131438, 4.1250240984), (20.0541918113, 4.6687848183), (19.8620925041, 5.3240655409), (19.3731413614, 5.9422287039), (19.4665901363, 6.1772163026)],
                knots=[0.6127594912, 0.6127594912, 0.6127594912, 0.6127594912, 0.6465863648, 0.6685197847, 0.6960996056, 0.6960996056, 0.6960996056, 0.6960996056], degree=3))
            add(Edge.make_bspline(
                [(6.8554310128, 5.7755294256), (7.4127268279, 6.1772309108), (8.5365975009, 6.9873222596), (10.8359007914, 7.4085355769), (12.0886982355, 8.2798741832), (17.0602348476, 7.6598327031), (17.2749481279, 6.4618591472), (18.1640129309, 6.7709903663), (18.9818248171, 6.3981944314), (19.4665901363, 6.1772163026)],
                knots=[0, 0, 0, 0, 0.1554835998, 0.3135560204, 0.4527660347, 0.6833732817, 0.7808534577, 0.8700989246, 1, 1, 1, 1], degree=3))
            add(Edge.make_bspline(
                [(6.1772041954, 3.7408485077), (6.7804296893, 4.3380131679), (6.9077022432, 5.1597331413), (6.8554310128, 5.7755294256)],
                knots=[0.6555244473, 0.6555244473, 0.6555244473, 0.6555244473, 0.6979756231, 0.6979756231, 0.6979756231, 0.6979756231], degree=3))
            add(Edge.make_bspline(
                [(6.1772041954, 3.7408485077), (6.2848169441, 3.6393004747), (6.3924296928, 3.5377524418), (6.526443176, 3.4349041525)],
                knots=[0, 0, 0, 0, 0.0806534582, 0.0806534582, 0.0806534582, 0.0806534582], degree=3))
            add(Edge.make_bspline(
                [(6.526443176, 3.4349041525), (6.7192580038, 3.2869289286), (7.4139094803, 2.8639984225), (10.6532981542, 2.6478504245), (12.6043444481, 2.5154552823), (16.2310966256, 3.0020580182), (18.0173440963, 3.5253916409), (18.8575629145, 3.771558404)],
                knots=[0.0806534582, 0.0806534582, 0.0806534582, 0.0806534582, 0.196695384, 0.4063898377, 0.5802846438, 0.8025734137, 1, 1, 1, 1], degree=3))
        make_face()
        with BuildLine():
            add(Edge.make_bspline(
                [(17.3456892371, -5.6049809791), (16.7894235563, -5.8159730563), (15.5297664705, -6.2937621314), (12.6939593803, -7.3387226453), (9.5153698979, -7.5177566902), (6.8313239775, -7.3878665753), (-0.0764413013, -6.4191861087), (-4.2569807618, -5.4711619397), (-7.1031631337, -5.5883503751), (-8.6113560055, -5.7114062767), (-9.6992037188, -7.0974632625), (-10.1008982052, -8.2753221902), (-9.7951087777, -9.1999689012), (-8.8178808563, -10.0607275543), (-5.1552975142, -9.5027954786), (0.0958312582, -10.9234706923), (4.9916901863, -11.4326531973), (10.1309060151, -11.5467984944), (13.0124511197, -11.6107994691)],
                knots=[0, 0, 0, 0, 0.049671967, 0.1124815846, 0.1755999807, 0.2355156609, 0.3303542289, 0.407198297, 0.4661951976, 0.5089927858, 0.5551744044, 0.5948848593, 0.6285124105, 0.6657059392, 0.7329100796, 0.8172164163, 0.8975137145, 1, 1, 1, 1], degree=3))
            add(Edge.make_bspline(
                [(13.0124511197, -11.6107994691), (13.6178399568, -11.5913989536), (14.7798220594, -11.5541616437), (16.0720924138, -10.7955369177), (16.9429002377, -9.82529199), (16.2474740809, -8.792240127), (16.3249370047, -8.4666039024), (17.8346631586, -7.9697721586), (18.4202513448, -6.7273427114), (18.2096182016, -5.9616475953), (17.6962923459, -5.392800284), (17.4152991221, -5.6393291774), (17.3456892371, -5.6049809791)],
                knots=[0, 0, 0, 0, 0.0382181949, 0.0733559256, 0.1038975699, 0.1333688306, 0.1473338307, 0.1822431045, 0.2151174437, 0.2404217622, 0.2632980061, 0.2794739754, 0.2794739754, 0.2794739754, 0.2794739754], degree=3))
        make_face()
    extrude(amount=F1_DEPTH)


solid = f1.part
